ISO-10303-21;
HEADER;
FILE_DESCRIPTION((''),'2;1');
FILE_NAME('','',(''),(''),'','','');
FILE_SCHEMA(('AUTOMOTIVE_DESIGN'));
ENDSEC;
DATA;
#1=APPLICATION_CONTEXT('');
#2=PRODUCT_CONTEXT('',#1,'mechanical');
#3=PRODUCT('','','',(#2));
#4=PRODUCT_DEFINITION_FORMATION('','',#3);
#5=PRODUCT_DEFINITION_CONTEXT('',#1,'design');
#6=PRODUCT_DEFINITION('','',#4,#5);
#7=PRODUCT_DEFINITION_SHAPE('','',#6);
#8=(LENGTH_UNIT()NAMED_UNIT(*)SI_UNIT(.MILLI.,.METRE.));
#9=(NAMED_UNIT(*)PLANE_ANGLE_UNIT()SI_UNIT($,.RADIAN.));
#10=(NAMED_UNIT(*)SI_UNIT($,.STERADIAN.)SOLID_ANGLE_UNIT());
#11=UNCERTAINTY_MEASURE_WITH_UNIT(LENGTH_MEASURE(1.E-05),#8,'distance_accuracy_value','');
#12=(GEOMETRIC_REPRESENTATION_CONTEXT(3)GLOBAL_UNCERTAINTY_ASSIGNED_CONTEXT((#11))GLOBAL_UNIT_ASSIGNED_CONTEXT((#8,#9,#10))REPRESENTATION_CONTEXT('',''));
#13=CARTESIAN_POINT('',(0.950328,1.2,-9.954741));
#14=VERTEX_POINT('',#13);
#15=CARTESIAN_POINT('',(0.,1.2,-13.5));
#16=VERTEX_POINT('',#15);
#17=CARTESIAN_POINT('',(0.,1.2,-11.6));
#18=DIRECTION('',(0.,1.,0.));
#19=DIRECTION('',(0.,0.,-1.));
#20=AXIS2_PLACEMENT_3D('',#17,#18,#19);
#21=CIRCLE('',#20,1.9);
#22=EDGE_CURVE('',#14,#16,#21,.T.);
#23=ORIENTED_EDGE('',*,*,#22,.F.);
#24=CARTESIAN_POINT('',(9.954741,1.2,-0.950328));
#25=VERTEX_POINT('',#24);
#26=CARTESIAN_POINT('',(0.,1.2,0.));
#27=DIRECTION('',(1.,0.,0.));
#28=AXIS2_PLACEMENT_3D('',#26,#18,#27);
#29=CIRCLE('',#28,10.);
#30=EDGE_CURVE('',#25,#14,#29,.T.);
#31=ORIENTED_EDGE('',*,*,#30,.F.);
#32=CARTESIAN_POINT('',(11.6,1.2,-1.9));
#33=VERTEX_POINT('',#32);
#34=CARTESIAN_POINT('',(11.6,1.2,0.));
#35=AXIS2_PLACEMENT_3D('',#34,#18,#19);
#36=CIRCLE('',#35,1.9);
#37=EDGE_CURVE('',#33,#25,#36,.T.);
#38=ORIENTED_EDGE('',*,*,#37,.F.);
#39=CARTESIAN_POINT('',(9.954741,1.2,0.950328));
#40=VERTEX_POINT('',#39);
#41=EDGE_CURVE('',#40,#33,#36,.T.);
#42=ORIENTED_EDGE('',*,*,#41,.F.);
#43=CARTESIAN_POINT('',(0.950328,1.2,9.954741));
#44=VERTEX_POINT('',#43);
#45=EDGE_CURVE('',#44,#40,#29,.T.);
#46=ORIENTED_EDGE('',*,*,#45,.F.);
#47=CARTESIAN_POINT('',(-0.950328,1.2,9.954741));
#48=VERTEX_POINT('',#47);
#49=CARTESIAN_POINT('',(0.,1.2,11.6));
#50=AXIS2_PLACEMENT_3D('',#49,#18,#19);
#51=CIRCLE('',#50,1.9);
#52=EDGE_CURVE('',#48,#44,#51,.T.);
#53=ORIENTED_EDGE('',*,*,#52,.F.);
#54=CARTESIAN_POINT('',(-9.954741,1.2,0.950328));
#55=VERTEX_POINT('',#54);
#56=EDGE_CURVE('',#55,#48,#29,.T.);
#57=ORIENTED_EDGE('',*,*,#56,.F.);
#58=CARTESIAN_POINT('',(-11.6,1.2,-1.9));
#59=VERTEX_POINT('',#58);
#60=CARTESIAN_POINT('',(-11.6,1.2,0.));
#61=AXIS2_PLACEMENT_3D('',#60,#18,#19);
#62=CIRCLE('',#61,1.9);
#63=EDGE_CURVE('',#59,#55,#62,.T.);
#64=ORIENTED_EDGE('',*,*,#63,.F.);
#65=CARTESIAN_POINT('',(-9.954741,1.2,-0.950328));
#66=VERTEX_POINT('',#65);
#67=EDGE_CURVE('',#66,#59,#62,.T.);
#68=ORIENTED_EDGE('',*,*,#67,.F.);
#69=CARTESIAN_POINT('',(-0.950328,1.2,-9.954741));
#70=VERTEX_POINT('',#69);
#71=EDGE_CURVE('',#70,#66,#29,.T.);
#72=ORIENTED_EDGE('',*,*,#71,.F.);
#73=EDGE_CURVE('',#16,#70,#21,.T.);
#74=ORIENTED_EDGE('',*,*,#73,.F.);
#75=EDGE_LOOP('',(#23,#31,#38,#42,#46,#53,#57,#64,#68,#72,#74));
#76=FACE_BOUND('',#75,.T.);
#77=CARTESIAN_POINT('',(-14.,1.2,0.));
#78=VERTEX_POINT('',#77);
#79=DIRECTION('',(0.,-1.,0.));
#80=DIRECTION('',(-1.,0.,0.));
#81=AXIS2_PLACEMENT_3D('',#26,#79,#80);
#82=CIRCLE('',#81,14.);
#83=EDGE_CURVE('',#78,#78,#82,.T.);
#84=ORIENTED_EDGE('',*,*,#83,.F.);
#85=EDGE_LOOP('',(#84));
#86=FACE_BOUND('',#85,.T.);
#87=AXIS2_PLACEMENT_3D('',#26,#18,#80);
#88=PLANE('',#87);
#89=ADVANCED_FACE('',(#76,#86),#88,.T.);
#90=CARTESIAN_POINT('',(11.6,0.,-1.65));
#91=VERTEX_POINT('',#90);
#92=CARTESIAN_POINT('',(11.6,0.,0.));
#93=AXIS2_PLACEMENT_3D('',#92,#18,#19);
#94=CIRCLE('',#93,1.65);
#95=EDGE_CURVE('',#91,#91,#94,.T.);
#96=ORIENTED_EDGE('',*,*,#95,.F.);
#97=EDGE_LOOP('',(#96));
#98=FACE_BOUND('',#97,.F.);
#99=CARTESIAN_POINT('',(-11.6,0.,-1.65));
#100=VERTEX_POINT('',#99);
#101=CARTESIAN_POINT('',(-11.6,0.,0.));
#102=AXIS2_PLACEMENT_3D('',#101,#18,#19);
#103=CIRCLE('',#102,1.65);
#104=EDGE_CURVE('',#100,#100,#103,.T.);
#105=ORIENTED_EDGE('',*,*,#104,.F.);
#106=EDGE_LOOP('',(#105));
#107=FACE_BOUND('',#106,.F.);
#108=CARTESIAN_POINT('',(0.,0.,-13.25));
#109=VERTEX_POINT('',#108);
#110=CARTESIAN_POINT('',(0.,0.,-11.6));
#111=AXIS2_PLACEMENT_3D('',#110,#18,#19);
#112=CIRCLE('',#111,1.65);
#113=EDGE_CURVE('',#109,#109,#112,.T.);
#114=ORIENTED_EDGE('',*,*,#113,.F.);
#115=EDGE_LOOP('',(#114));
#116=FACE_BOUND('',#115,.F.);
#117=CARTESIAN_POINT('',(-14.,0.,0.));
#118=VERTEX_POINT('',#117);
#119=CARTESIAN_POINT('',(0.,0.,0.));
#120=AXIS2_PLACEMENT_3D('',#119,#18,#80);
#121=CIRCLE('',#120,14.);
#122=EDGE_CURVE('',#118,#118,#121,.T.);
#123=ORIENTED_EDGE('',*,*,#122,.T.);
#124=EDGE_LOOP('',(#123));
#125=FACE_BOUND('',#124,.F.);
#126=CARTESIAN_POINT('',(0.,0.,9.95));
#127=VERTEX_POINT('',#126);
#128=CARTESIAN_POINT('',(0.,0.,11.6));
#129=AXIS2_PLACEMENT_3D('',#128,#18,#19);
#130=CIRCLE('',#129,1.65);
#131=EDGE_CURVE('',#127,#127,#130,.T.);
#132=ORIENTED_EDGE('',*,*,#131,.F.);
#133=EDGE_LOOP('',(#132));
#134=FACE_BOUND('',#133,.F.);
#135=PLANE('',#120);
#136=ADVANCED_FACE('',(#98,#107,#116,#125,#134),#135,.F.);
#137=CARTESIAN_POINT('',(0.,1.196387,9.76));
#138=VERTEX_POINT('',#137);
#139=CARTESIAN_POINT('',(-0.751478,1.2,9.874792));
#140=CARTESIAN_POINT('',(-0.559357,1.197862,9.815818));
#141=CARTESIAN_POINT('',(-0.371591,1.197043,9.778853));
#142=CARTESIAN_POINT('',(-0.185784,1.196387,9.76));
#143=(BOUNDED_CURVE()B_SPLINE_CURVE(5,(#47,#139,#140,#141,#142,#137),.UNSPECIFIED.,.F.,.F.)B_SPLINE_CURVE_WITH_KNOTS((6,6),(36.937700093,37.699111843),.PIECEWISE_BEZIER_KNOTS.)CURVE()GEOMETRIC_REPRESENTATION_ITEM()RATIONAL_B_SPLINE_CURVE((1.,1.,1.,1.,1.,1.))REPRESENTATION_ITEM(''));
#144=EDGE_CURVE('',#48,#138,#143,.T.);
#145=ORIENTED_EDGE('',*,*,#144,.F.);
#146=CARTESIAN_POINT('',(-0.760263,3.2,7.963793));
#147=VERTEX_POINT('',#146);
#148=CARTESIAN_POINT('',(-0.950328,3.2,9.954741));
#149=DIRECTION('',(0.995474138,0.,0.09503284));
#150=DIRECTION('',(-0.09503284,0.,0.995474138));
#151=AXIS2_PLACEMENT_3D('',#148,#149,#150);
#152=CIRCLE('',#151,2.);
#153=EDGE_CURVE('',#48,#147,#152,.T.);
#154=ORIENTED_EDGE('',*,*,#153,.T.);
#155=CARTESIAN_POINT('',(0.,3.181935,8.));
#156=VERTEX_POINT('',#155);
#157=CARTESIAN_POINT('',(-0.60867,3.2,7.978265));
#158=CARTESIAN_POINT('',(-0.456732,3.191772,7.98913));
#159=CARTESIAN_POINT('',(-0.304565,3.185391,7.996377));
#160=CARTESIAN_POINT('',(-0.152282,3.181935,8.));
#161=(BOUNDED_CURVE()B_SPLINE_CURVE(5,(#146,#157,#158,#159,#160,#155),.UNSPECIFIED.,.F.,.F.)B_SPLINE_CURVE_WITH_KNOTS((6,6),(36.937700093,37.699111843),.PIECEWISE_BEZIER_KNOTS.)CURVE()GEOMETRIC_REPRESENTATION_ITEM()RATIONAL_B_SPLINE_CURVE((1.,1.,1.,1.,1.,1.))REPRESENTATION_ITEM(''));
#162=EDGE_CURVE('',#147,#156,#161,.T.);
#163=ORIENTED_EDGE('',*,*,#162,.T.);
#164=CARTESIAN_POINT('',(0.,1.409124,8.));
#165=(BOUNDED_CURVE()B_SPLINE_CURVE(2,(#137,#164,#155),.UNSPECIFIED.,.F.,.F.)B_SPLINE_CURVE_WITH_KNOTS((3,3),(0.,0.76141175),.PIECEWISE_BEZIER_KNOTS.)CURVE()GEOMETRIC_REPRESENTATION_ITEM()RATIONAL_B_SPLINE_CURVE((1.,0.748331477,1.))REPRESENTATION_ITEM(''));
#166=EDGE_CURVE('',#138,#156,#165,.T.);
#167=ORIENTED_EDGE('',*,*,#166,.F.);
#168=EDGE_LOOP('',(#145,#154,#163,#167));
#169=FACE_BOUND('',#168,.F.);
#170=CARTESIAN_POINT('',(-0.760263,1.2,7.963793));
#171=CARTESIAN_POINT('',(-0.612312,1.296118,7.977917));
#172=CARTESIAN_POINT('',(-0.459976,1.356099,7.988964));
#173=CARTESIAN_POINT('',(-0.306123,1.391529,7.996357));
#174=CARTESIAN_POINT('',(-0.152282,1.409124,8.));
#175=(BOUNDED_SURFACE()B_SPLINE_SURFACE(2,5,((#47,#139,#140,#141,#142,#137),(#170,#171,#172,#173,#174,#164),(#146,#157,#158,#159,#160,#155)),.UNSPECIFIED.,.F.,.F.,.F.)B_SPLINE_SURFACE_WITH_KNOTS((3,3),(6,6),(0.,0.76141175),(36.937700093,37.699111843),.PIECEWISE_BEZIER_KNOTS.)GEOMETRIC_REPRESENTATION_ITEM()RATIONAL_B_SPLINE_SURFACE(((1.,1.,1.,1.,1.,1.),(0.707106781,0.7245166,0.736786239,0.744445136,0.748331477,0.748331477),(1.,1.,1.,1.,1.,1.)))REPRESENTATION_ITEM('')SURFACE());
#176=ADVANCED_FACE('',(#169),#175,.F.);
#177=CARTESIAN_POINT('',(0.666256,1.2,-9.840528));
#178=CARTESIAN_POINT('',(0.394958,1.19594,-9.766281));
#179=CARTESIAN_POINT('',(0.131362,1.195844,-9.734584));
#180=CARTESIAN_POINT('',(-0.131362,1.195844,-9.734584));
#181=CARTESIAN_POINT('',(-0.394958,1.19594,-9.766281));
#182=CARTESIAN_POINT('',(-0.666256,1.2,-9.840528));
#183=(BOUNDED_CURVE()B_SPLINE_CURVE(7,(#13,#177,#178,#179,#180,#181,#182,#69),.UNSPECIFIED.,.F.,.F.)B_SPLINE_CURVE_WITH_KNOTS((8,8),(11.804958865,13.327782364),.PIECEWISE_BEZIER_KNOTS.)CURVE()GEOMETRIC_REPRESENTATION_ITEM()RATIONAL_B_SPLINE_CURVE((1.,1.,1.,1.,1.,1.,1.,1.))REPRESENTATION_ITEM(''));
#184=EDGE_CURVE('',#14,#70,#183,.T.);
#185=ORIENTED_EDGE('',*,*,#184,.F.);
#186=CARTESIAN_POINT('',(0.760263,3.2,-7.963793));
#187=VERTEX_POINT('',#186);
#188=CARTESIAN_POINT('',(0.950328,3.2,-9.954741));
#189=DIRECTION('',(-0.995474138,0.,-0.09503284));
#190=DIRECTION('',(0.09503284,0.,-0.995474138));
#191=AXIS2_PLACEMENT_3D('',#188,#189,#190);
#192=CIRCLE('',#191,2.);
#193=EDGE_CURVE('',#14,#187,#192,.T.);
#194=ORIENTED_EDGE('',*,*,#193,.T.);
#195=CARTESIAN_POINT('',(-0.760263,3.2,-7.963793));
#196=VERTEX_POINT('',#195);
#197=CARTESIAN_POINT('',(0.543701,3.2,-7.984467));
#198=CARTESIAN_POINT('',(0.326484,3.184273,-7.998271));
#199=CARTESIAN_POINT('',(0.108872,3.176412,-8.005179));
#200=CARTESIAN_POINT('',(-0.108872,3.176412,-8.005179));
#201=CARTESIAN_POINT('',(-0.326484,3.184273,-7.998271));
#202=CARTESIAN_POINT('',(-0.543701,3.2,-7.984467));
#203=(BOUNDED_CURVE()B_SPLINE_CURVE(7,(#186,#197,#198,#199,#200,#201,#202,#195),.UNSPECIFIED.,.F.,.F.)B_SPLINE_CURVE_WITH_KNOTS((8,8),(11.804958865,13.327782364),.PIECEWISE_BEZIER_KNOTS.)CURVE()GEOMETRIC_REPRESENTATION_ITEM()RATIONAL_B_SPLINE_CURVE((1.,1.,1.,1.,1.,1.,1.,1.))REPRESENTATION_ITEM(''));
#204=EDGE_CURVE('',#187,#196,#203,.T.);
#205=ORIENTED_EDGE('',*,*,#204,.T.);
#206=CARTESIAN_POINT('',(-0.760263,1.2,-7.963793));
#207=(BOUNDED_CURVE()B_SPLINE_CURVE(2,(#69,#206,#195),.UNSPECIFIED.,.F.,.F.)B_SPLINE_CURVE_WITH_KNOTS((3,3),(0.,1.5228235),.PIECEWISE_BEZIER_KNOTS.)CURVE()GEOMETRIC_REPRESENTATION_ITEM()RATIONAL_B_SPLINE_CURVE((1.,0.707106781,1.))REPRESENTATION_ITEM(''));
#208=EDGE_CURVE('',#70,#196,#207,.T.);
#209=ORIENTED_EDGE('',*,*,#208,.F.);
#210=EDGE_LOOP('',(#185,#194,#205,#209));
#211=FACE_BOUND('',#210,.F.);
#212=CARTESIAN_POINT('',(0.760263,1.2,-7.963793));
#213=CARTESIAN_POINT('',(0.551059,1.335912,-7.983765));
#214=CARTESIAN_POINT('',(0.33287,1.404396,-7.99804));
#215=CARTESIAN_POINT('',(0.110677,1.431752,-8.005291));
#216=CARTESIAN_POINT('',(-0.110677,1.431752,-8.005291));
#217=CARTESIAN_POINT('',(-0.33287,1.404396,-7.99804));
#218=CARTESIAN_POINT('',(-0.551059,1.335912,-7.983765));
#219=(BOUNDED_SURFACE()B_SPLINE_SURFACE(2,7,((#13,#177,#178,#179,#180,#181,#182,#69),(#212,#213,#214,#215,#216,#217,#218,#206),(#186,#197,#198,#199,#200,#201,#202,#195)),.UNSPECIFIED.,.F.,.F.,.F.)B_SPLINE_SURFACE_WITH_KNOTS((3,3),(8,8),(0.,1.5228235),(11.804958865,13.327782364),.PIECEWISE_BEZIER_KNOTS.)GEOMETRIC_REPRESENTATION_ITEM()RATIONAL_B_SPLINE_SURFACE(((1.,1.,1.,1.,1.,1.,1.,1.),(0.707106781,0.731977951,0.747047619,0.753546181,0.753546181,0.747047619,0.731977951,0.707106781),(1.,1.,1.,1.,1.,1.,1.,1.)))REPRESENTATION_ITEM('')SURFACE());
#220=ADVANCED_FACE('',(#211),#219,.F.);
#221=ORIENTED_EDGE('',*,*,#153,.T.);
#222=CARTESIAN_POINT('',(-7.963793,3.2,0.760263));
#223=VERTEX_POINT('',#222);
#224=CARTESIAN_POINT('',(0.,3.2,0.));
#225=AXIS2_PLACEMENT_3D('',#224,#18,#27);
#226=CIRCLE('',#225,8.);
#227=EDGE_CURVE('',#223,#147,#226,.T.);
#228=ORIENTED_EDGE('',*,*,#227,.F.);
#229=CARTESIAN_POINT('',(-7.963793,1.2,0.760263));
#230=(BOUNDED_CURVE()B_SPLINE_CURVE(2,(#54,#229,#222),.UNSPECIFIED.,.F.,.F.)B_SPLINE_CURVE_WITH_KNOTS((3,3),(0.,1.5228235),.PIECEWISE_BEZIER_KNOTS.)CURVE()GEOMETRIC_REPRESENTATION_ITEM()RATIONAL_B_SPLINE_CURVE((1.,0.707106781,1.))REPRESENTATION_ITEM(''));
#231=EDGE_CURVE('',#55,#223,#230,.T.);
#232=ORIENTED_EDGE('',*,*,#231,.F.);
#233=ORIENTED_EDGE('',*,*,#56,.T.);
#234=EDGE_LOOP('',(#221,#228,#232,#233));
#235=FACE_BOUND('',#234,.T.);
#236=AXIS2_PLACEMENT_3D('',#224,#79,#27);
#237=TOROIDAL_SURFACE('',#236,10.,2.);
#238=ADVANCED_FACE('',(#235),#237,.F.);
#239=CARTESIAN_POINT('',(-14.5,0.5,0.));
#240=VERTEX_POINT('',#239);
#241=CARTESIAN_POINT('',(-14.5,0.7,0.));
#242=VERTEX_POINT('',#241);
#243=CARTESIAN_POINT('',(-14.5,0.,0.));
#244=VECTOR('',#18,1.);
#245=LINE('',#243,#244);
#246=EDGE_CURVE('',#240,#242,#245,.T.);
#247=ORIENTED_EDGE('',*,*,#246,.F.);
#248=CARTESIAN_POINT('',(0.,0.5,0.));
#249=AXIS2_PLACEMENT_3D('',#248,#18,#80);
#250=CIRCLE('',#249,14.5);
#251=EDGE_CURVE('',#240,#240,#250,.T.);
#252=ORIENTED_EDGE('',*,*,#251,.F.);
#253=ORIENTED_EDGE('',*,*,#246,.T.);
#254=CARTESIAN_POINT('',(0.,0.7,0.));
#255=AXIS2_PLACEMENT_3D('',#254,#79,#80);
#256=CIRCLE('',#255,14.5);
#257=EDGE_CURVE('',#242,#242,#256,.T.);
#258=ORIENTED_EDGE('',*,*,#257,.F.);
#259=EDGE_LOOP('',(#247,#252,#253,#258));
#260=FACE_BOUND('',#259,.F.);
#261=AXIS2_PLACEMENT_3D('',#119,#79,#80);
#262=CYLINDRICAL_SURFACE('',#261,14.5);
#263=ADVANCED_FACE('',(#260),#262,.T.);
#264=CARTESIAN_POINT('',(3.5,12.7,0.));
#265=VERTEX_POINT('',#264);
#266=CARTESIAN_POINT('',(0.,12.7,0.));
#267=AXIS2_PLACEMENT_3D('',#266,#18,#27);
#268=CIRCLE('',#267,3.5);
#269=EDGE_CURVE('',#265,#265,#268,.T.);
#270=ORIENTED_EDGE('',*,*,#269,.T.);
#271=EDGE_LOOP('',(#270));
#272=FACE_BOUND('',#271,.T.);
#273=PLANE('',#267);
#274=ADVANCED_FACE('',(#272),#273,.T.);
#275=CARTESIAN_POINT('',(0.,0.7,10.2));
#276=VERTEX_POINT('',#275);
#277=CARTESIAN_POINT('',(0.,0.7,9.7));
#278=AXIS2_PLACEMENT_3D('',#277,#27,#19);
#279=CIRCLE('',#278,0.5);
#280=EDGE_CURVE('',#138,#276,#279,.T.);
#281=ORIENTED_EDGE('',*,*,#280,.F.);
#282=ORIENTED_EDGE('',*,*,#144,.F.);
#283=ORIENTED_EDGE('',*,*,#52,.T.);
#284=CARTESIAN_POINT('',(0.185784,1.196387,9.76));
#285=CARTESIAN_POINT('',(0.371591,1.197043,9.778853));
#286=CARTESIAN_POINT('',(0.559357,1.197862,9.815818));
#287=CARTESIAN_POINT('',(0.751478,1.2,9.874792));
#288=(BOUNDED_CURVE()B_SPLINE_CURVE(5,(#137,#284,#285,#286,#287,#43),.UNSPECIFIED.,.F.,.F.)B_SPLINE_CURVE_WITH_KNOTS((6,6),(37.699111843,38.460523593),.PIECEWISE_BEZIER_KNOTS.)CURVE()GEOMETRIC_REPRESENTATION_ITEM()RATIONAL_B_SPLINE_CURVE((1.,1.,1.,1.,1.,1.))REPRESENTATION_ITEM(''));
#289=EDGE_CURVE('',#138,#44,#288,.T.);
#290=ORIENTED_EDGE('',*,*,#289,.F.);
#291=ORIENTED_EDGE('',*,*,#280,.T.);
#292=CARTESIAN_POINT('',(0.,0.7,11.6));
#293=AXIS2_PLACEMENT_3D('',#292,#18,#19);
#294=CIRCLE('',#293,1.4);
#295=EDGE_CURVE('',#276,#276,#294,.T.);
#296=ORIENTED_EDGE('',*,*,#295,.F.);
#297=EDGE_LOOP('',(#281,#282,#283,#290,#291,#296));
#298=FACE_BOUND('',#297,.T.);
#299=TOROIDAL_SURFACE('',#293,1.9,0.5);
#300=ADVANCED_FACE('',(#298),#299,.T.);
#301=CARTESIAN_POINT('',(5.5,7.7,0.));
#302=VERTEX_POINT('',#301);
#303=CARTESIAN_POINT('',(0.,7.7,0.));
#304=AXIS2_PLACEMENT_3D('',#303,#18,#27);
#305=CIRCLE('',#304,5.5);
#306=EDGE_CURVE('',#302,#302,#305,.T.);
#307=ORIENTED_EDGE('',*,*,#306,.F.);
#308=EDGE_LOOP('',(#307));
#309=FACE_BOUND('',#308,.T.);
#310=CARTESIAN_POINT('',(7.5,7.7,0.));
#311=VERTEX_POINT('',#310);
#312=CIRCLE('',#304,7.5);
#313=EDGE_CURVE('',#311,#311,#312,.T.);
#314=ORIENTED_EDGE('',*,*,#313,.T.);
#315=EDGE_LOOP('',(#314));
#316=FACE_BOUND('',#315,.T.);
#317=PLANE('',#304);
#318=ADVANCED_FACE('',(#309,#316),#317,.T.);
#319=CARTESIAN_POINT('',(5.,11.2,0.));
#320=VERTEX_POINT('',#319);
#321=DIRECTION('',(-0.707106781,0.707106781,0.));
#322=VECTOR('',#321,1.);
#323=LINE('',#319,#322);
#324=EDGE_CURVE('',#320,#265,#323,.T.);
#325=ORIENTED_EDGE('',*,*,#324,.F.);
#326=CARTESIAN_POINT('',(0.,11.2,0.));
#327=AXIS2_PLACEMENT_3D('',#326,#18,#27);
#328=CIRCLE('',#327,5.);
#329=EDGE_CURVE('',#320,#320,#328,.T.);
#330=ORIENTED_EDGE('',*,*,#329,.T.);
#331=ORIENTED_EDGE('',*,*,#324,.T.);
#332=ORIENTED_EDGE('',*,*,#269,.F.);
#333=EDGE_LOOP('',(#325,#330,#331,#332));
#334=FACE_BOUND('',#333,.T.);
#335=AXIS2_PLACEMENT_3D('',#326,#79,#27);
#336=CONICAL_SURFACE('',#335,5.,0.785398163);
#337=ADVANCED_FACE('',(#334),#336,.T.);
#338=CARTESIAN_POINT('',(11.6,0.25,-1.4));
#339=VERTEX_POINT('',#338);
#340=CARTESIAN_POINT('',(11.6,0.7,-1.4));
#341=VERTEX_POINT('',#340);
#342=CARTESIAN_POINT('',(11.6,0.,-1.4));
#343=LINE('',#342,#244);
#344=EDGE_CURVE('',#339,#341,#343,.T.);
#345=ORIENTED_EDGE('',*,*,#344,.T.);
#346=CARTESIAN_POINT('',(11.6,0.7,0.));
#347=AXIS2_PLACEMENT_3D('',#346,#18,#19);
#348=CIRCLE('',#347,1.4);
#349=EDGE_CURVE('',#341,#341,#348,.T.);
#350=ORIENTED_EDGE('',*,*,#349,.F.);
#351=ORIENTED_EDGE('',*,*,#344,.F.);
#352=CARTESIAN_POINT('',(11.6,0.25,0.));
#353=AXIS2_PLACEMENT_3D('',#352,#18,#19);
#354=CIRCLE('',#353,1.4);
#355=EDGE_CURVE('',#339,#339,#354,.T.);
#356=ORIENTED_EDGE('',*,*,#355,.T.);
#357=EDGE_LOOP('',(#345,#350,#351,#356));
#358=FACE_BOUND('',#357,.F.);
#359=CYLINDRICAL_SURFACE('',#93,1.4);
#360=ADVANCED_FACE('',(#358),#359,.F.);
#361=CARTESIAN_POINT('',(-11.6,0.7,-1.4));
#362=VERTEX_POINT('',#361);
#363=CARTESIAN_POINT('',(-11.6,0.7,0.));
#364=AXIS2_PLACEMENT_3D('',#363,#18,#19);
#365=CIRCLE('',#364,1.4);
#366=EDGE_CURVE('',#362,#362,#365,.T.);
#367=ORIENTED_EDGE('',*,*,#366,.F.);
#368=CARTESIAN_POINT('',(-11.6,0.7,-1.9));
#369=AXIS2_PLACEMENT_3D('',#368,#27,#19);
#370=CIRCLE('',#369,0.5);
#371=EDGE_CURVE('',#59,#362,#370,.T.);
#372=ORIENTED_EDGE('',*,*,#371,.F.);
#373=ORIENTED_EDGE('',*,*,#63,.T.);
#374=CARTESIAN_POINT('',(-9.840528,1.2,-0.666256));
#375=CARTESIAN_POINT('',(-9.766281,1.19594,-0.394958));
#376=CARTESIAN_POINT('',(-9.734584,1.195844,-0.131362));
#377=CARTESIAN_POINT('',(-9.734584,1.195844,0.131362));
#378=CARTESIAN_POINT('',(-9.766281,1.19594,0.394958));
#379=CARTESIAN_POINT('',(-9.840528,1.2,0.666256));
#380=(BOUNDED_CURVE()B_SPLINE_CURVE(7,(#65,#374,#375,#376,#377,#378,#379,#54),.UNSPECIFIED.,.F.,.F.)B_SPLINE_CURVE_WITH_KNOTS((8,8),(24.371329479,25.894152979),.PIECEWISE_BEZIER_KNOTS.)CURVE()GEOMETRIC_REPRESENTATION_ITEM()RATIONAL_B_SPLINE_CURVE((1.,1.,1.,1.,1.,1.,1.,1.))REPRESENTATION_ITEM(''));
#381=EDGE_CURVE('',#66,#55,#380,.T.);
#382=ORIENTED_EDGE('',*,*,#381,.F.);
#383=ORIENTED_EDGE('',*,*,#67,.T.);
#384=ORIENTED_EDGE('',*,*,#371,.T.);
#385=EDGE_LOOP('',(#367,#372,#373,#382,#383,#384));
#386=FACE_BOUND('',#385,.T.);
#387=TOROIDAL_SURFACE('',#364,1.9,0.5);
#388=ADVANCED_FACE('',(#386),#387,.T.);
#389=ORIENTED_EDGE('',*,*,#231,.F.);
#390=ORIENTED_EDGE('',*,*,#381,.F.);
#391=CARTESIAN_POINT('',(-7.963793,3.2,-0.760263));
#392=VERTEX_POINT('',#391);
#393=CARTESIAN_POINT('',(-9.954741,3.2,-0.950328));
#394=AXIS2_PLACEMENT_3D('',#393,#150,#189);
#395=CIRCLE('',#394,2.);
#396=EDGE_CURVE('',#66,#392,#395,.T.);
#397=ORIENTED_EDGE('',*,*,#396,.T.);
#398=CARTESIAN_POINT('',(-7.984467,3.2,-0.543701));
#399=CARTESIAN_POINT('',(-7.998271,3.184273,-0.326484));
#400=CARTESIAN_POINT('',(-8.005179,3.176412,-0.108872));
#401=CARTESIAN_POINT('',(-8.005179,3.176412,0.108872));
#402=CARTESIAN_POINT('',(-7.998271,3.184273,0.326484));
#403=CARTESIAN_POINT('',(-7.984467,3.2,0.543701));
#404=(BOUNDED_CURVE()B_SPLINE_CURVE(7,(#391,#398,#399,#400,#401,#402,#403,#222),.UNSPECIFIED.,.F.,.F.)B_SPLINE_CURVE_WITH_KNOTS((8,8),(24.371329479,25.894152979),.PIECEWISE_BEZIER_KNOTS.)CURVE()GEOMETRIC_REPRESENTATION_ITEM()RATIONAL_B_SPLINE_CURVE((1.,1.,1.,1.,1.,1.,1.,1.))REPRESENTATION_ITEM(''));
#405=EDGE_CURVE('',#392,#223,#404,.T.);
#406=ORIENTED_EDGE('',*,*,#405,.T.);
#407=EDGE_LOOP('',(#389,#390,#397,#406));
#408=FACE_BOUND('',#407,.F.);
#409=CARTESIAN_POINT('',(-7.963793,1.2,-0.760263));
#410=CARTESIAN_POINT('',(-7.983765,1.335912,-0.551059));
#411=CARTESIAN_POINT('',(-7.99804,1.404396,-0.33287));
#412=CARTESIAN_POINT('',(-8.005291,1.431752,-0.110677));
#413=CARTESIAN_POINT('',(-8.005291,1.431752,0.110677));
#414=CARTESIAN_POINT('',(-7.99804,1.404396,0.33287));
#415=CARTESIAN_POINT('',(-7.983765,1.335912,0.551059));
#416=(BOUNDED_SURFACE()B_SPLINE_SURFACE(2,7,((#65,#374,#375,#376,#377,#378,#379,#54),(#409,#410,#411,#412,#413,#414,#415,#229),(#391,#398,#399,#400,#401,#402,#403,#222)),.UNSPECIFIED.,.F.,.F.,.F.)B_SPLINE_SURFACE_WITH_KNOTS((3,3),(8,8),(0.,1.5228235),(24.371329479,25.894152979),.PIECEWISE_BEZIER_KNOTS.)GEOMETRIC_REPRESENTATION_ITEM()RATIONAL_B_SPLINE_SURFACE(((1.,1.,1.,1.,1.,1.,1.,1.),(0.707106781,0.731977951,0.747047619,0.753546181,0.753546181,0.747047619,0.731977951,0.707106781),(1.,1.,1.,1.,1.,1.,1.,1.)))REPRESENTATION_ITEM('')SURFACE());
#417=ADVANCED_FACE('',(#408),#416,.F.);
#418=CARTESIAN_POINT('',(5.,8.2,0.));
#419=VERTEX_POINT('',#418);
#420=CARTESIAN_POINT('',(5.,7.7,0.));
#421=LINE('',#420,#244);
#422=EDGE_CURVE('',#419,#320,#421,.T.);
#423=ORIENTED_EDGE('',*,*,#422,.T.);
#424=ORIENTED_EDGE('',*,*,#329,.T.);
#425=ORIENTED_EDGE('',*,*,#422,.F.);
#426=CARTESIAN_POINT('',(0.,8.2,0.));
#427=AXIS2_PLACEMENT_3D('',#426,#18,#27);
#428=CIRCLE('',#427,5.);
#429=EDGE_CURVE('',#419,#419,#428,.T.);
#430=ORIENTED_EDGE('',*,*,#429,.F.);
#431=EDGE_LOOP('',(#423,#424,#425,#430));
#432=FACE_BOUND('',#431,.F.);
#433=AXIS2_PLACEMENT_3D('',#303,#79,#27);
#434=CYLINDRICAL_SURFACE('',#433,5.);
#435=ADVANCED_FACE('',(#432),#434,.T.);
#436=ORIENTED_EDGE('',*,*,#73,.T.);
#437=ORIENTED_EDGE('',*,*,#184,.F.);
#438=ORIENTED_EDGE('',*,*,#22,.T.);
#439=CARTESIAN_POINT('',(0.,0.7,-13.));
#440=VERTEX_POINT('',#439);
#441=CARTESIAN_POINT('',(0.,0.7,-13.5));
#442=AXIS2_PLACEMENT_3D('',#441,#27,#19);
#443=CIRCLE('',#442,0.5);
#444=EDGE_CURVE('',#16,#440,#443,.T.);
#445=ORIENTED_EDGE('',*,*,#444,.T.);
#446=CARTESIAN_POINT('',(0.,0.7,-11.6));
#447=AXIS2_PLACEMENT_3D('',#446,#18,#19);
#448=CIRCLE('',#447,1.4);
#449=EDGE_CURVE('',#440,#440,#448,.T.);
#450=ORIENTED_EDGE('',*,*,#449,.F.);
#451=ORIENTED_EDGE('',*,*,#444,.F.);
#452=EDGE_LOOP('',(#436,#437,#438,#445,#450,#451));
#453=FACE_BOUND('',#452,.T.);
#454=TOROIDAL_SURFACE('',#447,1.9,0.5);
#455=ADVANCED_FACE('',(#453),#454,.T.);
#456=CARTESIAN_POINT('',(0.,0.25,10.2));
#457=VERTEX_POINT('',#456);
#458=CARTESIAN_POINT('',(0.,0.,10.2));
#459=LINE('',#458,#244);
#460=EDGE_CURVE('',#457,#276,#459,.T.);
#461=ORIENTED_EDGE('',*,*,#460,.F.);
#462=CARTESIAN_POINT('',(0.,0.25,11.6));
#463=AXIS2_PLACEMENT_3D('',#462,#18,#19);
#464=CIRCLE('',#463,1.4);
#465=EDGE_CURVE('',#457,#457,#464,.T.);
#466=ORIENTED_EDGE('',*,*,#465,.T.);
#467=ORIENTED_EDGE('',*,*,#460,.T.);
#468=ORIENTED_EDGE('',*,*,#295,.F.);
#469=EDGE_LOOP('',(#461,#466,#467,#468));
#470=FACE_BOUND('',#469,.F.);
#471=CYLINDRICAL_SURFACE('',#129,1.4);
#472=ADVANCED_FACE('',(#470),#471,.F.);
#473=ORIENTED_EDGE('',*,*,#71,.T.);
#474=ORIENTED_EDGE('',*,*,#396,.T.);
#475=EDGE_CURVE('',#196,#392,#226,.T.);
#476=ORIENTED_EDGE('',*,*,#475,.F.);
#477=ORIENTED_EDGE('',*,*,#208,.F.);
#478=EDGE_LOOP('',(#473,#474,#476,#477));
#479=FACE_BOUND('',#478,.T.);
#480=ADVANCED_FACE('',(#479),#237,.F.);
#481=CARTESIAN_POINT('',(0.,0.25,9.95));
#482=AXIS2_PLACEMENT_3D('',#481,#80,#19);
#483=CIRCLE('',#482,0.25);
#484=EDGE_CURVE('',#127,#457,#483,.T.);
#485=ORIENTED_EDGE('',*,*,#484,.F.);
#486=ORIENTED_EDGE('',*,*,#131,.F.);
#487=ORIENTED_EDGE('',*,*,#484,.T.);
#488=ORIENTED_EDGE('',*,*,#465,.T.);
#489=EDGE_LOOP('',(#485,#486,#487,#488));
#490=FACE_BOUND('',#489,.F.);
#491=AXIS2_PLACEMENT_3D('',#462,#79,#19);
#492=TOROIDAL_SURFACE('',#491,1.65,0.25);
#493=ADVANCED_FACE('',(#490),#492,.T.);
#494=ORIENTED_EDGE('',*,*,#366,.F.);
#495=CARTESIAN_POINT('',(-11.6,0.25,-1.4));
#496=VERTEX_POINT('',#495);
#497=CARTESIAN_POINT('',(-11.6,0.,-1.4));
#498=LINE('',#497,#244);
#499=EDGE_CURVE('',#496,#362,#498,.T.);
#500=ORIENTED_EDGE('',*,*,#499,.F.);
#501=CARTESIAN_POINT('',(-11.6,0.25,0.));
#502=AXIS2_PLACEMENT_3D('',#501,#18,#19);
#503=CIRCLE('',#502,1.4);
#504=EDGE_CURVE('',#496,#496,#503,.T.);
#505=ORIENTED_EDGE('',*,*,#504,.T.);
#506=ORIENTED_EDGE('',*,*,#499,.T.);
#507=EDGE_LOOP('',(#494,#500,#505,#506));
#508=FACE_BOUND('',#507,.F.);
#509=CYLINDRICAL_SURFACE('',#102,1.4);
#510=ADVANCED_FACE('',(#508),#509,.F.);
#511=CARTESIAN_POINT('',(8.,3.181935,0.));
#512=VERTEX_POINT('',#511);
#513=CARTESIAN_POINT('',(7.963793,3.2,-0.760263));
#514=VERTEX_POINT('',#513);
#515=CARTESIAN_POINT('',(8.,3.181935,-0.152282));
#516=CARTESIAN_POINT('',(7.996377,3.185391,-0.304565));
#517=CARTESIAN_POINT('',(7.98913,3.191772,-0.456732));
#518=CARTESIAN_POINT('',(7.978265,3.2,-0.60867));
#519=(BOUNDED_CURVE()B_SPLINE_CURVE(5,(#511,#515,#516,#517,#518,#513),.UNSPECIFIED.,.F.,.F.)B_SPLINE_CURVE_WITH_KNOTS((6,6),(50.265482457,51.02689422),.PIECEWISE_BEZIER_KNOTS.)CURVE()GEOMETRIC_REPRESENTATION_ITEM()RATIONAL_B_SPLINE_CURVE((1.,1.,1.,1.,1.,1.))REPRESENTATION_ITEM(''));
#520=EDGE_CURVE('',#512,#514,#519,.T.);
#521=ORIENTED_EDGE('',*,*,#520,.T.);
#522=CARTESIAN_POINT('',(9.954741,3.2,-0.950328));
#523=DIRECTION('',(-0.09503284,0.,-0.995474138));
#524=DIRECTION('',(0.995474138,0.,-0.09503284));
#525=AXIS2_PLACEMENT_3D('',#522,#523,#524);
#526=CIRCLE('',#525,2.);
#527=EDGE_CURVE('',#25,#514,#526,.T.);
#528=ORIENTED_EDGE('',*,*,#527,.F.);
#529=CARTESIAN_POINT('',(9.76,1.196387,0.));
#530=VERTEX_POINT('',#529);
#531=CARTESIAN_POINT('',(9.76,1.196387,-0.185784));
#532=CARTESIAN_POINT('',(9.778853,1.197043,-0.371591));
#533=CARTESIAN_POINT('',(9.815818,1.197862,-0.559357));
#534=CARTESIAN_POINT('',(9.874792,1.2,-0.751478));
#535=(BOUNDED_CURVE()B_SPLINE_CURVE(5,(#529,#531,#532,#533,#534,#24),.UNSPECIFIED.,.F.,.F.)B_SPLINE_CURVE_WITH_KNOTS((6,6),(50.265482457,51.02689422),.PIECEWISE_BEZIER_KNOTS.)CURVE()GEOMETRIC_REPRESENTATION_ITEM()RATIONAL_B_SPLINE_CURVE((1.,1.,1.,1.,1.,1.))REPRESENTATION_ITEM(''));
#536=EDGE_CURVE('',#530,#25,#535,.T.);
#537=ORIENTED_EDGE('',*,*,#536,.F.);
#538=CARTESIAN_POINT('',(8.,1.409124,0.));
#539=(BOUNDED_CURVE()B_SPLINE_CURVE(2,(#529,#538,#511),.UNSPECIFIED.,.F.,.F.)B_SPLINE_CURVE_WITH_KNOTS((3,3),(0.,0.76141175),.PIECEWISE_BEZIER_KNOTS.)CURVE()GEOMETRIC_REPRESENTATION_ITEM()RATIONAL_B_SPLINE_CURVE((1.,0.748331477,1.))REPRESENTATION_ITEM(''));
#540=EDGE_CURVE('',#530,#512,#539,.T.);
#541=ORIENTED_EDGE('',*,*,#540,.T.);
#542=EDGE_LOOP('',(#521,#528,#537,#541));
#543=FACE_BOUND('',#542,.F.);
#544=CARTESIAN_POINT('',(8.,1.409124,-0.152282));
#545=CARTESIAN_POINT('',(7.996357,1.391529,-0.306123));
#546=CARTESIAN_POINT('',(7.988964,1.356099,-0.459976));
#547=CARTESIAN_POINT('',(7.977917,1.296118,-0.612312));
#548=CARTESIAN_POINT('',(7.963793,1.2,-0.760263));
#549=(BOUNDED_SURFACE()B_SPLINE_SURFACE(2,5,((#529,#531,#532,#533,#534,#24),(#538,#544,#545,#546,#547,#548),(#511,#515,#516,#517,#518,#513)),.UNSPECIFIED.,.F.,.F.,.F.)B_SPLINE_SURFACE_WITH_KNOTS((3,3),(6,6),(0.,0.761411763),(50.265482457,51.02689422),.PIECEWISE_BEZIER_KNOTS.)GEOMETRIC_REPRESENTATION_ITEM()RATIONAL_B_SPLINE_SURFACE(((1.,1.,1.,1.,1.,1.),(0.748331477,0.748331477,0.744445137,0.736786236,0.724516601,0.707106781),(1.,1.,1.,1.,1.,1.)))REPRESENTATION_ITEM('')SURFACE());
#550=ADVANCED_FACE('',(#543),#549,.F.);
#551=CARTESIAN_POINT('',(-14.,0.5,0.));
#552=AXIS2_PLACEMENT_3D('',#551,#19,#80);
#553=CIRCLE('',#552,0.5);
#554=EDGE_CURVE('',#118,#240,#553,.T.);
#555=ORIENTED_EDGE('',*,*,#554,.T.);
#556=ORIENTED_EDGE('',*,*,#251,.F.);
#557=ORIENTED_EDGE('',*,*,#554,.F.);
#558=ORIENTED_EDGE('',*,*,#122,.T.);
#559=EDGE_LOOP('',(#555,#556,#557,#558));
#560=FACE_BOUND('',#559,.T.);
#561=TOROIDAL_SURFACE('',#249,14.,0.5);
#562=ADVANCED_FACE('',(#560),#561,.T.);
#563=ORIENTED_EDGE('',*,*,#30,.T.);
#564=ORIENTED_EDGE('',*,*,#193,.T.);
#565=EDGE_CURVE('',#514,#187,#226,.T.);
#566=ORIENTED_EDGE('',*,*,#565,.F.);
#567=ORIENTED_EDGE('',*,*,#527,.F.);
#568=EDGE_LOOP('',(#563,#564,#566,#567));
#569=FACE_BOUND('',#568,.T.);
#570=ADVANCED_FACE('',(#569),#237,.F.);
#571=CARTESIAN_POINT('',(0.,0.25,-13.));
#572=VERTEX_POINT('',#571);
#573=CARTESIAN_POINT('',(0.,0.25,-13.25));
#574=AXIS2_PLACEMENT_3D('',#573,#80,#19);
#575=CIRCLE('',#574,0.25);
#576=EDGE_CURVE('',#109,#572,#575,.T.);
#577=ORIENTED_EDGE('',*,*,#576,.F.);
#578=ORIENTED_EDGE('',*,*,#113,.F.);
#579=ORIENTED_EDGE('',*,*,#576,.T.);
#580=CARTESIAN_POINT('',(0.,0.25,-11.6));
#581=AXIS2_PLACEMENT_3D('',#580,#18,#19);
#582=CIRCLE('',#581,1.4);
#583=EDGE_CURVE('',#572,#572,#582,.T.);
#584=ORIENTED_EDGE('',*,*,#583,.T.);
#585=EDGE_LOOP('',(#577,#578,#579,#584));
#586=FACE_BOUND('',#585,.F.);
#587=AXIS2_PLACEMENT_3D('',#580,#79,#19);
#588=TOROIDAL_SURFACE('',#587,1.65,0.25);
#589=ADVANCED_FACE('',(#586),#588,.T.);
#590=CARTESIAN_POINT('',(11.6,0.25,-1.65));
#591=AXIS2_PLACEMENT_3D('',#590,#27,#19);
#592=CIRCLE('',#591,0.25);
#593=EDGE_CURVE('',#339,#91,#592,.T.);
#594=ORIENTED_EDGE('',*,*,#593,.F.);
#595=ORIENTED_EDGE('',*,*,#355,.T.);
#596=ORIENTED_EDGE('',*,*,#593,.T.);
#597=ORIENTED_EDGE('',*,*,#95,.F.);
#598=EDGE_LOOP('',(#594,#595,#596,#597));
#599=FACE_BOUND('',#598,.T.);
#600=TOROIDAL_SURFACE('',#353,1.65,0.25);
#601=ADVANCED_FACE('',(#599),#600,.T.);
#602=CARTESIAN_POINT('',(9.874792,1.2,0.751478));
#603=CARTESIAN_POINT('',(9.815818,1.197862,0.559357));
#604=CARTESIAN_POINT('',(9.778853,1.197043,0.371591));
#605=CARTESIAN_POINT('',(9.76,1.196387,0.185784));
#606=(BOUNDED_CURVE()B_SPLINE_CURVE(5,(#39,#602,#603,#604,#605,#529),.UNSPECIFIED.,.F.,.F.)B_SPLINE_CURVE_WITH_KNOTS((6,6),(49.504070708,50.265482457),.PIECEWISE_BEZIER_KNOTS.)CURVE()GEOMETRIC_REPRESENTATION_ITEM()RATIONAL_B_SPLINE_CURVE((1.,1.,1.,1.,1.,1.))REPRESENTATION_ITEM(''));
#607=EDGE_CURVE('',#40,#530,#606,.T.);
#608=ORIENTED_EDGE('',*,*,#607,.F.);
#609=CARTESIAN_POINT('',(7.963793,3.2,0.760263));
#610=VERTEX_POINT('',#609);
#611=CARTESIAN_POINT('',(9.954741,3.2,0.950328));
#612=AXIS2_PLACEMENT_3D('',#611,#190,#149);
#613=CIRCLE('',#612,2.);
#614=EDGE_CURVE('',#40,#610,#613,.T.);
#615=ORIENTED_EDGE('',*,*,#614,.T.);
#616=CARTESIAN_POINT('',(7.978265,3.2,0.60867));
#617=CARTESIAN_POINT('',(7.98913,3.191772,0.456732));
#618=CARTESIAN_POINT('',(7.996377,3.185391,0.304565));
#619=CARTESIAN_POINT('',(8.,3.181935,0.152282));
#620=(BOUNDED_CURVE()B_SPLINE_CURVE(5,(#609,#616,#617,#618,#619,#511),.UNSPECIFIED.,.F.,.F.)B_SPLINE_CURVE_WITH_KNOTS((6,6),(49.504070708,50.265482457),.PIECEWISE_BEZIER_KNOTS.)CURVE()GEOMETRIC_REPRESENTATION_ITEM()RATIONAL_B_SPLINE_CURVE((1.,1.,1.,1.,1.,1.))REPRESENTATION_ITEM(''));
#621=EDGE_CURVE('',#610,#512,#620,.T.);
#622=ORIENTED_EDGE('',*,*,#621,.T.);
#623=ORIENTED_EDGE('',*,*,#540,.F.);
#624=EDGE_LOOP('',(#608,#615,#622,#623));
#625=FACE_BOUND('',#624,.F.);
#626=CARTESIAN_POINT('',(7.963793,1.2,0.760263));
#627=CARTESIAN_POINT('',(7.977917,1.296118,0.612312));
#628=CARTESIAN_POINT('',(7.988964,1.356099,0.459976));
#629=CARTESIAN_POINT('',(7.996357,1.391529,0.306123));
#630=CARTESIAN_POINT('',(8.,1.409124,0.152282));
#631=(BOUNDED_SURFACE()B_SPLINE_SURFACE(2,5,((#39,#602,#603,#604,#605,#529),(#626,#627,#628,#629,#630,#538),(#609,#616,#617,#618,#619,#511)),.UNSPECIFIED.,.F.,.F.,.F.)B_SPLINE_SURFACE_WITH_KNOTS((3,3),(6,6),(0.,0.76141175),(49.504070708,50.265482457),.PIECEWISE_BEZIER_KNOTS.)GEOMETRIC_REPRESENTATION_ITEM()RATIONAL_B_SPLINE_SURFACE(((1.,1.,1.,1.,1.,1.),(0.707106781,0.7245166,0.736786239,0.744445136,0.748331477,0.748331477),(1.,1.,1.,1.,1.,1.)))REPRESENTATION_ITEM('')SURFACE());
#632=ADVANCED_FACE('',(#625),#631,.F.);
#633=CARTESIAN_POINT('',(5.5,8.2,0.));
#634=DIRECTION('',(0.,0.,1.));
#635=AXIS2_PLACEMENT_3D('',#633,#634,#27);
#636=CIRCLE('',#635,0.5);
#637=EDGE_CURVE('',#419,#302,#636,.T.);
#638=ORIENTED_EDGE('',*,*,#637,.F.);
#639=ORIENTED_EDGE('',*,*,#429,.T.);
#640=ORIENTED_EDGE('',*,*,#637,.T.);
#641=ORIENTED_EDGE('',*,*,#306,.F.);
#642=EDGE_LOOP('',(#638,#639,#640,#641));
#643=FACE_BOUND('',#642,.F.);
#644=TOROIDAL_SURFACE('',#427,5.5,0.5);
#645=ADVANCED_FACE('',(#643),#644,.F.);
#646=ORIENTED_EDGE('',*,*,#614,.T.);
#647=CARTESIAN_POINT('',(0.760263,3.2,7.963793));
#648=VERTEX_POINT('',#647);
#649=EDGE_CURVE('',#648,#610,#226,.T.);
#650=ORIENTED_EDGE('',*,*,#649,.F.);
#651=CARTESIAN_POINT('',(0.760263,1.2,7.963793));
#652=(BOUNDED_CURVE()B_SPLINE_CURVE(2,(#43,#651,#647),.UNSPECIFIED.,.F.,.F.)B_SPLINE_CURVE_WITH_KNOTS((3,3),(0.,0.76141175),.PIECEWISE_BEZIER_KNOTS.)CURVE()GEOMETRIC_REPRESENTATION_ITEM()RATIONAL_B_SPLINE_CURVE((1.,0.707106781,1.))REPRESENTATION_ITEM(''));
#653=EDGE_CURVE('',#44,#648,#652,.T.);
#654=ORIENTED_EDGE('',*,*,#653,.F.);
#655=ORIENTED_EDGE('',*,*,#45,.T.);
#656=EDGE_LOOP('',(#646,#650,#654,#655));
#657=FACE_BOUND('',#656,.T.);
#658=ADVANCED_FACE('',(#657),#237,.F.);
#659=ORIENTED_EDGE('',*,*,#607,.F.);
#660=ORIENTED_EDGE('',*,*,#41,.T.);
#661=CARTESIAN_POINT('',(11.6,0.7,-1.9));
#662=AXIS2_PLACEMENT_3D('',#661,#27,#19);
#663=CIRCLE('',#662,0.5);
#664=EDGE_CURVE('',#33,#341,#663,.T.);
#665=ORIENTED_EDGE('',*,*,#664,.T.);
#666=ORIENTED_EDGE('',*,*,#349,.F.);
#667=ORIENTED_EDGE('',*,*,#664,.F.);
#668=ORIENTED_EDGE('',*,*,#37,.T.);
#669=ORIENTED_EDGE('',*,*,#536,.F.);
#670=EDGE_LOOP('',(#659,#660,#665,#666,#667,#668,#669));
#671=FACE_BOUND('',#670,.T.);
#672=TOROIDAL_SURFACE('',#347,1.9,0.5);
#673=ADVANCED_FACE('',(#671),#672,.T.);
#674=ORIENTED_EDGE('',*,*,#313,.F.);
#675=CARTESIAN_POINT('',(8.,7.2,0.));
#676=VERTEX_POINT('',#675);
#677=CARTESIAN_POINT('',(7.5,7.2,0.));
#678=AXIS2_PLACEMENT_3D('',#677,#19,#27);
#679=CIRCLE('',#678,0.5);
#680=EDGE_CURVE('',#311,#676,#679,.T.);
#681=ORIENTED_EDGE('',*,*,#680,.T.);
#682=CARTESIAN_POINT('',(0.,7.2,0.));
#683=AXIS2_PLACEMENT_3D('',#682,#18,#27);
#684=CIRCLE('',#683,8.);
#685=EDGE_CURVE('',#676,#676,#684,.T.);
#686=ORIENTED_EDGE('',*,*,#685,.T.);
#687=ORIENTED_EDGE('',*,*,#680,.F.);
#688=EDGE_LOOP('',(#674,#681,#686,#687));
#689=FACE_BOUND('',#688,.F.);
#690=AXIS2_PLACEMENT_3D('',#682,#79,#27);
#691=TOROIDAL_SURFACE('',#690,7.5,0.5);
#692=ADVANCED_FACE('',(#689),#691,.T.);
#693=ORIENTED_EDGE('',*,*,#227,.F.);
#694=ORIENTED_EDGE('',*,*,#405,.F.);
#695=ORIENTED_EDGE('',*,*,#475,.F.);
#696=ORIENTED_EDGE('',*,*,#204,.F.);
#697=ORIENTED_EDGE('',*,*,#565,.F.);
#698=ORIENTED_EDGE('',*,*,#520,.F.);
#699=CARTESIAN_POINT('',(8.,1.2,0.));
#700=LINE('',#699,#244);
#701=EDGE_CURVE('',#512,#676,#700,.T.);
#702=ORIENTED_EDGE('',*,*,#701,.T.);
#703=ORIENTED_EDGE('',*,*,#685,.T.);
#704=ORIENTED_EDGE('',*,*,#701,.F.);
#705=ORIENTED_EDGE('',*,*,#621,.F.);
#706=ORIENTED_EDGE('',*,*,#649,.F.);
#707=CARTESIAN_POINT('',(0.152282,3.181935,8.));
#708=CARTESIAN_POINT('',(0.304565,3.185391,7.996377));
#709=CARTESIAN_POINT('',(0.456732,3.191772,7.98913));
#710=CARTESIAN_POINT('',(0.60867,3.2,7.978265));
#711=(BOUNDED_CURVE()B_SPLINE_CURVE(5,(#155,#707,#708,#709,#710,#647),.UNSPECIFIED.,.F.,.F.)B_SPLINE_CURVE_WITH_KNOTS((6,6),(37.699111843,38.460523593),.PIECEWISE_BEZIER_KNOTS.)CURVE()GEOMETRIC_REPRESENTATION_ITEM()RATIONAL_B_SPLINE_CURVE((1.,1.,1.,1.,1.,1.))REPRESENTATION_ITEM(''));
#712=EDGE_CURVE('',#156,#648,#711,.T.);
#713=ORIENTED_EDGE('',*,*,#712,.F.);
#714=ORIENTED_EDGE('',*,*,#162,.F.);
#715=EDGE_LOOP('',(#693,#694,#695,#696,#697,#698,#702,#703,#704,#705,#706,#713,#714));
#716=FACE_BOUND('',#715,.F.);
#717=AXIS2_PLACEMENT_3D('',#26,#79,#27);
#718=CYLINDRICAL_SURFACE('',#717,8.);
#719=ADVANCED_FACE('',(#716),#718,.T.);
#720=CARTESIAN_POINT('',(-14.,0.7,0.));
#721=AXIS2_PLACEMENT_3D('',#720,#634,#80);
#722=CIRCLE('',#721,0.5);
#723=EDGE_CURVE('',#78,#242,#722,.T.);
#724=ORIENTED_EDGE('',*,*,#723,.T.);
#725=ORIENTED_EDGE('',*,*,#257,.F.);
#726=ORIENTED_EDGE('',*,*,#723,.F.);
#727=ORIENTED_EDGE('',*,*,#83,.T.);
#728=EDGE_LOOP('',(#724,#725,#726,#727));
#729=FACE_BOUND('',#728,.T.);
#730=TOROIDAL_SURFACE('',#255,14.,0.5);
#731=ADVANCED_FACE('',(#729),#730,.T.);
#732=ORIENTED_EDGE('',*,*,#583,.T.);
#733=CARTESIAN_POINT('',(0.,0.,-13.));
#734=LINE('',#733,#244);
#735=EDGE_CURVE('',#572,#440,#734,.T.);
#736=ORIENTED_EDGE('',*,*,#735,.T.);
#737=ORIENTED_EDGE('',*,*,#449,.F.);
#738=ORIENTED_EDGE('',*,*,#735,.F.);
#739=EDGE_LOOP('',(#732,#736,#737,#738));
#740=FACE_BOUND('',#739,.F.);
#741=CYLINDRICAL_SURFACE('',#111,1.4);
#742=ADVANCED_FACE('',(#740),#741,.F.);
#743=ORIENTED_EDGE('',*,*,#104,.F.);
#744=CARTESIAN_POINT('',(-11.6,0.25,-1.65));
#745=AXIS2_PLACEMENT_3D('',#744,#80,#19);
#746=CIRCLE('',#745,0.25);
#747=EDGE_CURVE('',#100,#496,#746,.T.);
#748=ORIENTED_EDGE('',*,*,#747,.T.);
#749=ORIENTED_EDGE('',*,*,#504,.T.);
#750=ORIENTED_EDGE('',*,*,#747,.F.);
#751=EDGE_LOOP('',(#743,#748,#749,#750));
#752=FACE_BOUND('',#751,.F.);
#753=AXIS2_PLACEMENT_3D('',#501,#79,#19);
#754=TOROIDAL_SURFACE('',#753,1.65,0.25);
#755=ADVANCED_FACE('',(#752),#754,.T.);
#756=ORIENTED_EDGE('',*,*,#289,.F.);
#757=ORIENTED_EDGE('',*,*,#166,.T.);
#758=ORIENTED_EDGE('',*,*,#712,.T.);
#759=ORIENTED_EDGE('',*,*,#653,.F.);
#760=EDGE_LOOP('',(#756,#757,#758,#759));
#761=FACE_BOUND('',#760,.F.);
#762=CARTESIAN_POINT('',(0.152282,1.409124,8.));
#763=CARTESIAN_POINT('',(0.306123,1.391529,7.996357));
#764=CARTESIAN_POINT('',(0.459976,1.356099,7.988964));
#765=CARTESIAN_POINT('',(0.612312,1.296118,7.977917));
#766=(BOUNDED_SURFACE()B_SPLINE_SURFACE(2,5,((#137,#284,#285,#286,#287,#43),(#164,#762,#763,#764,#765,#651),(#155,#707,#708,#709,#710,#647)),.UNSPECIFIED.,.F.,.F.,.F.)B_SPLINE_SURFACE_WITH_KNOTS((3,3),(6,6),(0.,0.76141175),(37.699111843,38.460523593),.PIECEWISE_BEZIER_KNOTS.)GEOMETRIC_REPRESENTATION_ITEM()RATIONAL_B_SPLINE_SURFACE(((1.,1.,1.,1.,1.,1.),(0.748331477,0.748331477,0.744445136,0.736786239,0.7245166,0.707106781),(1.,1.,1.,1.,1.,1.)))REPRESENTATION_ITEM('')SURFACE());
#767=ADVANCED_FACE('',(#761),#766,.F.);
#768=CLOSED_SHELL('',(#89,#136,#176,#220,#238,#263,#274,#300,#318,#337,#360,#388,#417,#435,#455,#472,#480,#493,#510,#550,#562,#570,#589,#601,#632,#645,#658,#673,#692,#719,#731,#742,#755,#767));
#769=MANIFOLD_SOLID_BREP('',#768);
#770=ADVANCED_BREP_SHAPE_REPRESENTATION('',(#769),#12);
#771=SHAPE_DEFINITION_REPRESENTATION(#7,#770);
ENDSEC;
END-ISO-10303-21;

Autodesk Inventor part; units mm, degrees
ref_plane "YZ Plane" through (0, 0, 0) normal (1, 0, 0) x (0, 1, 0)
ref_plane "XZ Plane" through (0, 0, 0) normal (0, 1, 0) x (-1, 0, 0)
ref_plane "XY Plane" through (0, 0, 0) normal (0, 0, 1) x (1, 0, 0)
sketch "Szkic1" plane through (0, 0, 0) normal (0, 1, 0) x (-1, 0, 0)
  circle A0 centre (0, 0) radius 14.5
  circle A1 centre (0, -11.6) radius 1.4
  line L0 (0, -14.5) -> (0, 14.5)
  line L1 (14.5, 0) -> (-14.5, 0)
  circle A2 centre (-11.6, 0) radius 1.4
  circle A3 centre (0, 11.6) radius 1.4
  circle A4 centre (11.6, 0) radius 1.4
  dimension "podstawa" = 29
  dimension "d1" = 1.5
  dimension "d2" = 2.8
  dimension "d3" = 29
  dimension "d4" = 29
  dimension "d5" = 2.8
  dimension "d6" = 2.9
extrude "Wyciągnięcie proste1" add sketch "Szkic1" along normal blind 1.2
sketch "Szkic2" plane through (0, 0, 0) normal (0, -1, 0) x (1, 0, 0)
  circle A0 centre (0, 11.6) radius 1.4 projected
  circle A1 centre (11.6, 0) radius 1.4 projected
  circle A2 centre (0, -11.6) radius 1.4 projected
  circle A3 centre (-11.6, 0) radius 1.4 projected
hole "Otwór1" at (0, 0, 11.6) at (11.6, 0, 0) at (-11.6, 0, 0) at (0, 0, -11.6) direction (0, 1, 0) diameter 2.8 end through all
fillet "Zaokrąglenie1" radius 0.5 4 edges at (11.6, 1.2, 1.4) (0, 1.2, -10.2) (-11.6, 1.2, 1.4) (0, 1.2, 13)
fillet "Zaokrąglenie2" radius 0.25 4 edges at (11.6, 0, 1.4) (0, 0, -10.2) (-11.6, 0, 1.4) (0, 0, 13)
fillet "Zaokrąglenie3" radius 0.5 2 edges at (0, 1.2, 14.5) (0, 0, 14.5)
sketch "Szkic3" plane through (0, 1.2, 0) normal (0, 1, 0) x (1, 0, 0)
  circle A0 centre (0, 0) radius 14 projected
  circle A1 centre (0, 0) radius 8
  dimension "d19" = 16
extrude "Wyciągnięcie proste2" add sketch "Szkic3" along normal blind 6.5 contours A1
fillet "Zaokrąglenie4" radius 2 1 edges at (-8, 1.2, 0)
sketch "Szkic4" plane through (0, 7.7, 0) normal (0, 1, 0) x (1, 0, 0)
  circle A0 centre (0, 0) radius 8 projected
  circle A1 centre (0, 0) radius 5
  dimension "d23" = 10
extrude "Wyciągnięcie proste3" add sketch "Szkic4" along normal blind 5 contours A1
chamfer "Faza1" distance 1.5 angle 45 1 edges at (-5, 12.7, 0)
fillet "Zaokrąglenie5" radius 0.5 2 edges at (-8, 7.7, 0) (-5, 7.7, 0)
equation "\"d3\" = podstawa"
equation "\"d4\" = podstawa"
equation "\"d5\" = d2"
equation "\"d6\" = d1 + 0.5 * d2"
equation "\"d9\" = d2"
properties part number "Podstawa" material "Stal nierdzewna"
